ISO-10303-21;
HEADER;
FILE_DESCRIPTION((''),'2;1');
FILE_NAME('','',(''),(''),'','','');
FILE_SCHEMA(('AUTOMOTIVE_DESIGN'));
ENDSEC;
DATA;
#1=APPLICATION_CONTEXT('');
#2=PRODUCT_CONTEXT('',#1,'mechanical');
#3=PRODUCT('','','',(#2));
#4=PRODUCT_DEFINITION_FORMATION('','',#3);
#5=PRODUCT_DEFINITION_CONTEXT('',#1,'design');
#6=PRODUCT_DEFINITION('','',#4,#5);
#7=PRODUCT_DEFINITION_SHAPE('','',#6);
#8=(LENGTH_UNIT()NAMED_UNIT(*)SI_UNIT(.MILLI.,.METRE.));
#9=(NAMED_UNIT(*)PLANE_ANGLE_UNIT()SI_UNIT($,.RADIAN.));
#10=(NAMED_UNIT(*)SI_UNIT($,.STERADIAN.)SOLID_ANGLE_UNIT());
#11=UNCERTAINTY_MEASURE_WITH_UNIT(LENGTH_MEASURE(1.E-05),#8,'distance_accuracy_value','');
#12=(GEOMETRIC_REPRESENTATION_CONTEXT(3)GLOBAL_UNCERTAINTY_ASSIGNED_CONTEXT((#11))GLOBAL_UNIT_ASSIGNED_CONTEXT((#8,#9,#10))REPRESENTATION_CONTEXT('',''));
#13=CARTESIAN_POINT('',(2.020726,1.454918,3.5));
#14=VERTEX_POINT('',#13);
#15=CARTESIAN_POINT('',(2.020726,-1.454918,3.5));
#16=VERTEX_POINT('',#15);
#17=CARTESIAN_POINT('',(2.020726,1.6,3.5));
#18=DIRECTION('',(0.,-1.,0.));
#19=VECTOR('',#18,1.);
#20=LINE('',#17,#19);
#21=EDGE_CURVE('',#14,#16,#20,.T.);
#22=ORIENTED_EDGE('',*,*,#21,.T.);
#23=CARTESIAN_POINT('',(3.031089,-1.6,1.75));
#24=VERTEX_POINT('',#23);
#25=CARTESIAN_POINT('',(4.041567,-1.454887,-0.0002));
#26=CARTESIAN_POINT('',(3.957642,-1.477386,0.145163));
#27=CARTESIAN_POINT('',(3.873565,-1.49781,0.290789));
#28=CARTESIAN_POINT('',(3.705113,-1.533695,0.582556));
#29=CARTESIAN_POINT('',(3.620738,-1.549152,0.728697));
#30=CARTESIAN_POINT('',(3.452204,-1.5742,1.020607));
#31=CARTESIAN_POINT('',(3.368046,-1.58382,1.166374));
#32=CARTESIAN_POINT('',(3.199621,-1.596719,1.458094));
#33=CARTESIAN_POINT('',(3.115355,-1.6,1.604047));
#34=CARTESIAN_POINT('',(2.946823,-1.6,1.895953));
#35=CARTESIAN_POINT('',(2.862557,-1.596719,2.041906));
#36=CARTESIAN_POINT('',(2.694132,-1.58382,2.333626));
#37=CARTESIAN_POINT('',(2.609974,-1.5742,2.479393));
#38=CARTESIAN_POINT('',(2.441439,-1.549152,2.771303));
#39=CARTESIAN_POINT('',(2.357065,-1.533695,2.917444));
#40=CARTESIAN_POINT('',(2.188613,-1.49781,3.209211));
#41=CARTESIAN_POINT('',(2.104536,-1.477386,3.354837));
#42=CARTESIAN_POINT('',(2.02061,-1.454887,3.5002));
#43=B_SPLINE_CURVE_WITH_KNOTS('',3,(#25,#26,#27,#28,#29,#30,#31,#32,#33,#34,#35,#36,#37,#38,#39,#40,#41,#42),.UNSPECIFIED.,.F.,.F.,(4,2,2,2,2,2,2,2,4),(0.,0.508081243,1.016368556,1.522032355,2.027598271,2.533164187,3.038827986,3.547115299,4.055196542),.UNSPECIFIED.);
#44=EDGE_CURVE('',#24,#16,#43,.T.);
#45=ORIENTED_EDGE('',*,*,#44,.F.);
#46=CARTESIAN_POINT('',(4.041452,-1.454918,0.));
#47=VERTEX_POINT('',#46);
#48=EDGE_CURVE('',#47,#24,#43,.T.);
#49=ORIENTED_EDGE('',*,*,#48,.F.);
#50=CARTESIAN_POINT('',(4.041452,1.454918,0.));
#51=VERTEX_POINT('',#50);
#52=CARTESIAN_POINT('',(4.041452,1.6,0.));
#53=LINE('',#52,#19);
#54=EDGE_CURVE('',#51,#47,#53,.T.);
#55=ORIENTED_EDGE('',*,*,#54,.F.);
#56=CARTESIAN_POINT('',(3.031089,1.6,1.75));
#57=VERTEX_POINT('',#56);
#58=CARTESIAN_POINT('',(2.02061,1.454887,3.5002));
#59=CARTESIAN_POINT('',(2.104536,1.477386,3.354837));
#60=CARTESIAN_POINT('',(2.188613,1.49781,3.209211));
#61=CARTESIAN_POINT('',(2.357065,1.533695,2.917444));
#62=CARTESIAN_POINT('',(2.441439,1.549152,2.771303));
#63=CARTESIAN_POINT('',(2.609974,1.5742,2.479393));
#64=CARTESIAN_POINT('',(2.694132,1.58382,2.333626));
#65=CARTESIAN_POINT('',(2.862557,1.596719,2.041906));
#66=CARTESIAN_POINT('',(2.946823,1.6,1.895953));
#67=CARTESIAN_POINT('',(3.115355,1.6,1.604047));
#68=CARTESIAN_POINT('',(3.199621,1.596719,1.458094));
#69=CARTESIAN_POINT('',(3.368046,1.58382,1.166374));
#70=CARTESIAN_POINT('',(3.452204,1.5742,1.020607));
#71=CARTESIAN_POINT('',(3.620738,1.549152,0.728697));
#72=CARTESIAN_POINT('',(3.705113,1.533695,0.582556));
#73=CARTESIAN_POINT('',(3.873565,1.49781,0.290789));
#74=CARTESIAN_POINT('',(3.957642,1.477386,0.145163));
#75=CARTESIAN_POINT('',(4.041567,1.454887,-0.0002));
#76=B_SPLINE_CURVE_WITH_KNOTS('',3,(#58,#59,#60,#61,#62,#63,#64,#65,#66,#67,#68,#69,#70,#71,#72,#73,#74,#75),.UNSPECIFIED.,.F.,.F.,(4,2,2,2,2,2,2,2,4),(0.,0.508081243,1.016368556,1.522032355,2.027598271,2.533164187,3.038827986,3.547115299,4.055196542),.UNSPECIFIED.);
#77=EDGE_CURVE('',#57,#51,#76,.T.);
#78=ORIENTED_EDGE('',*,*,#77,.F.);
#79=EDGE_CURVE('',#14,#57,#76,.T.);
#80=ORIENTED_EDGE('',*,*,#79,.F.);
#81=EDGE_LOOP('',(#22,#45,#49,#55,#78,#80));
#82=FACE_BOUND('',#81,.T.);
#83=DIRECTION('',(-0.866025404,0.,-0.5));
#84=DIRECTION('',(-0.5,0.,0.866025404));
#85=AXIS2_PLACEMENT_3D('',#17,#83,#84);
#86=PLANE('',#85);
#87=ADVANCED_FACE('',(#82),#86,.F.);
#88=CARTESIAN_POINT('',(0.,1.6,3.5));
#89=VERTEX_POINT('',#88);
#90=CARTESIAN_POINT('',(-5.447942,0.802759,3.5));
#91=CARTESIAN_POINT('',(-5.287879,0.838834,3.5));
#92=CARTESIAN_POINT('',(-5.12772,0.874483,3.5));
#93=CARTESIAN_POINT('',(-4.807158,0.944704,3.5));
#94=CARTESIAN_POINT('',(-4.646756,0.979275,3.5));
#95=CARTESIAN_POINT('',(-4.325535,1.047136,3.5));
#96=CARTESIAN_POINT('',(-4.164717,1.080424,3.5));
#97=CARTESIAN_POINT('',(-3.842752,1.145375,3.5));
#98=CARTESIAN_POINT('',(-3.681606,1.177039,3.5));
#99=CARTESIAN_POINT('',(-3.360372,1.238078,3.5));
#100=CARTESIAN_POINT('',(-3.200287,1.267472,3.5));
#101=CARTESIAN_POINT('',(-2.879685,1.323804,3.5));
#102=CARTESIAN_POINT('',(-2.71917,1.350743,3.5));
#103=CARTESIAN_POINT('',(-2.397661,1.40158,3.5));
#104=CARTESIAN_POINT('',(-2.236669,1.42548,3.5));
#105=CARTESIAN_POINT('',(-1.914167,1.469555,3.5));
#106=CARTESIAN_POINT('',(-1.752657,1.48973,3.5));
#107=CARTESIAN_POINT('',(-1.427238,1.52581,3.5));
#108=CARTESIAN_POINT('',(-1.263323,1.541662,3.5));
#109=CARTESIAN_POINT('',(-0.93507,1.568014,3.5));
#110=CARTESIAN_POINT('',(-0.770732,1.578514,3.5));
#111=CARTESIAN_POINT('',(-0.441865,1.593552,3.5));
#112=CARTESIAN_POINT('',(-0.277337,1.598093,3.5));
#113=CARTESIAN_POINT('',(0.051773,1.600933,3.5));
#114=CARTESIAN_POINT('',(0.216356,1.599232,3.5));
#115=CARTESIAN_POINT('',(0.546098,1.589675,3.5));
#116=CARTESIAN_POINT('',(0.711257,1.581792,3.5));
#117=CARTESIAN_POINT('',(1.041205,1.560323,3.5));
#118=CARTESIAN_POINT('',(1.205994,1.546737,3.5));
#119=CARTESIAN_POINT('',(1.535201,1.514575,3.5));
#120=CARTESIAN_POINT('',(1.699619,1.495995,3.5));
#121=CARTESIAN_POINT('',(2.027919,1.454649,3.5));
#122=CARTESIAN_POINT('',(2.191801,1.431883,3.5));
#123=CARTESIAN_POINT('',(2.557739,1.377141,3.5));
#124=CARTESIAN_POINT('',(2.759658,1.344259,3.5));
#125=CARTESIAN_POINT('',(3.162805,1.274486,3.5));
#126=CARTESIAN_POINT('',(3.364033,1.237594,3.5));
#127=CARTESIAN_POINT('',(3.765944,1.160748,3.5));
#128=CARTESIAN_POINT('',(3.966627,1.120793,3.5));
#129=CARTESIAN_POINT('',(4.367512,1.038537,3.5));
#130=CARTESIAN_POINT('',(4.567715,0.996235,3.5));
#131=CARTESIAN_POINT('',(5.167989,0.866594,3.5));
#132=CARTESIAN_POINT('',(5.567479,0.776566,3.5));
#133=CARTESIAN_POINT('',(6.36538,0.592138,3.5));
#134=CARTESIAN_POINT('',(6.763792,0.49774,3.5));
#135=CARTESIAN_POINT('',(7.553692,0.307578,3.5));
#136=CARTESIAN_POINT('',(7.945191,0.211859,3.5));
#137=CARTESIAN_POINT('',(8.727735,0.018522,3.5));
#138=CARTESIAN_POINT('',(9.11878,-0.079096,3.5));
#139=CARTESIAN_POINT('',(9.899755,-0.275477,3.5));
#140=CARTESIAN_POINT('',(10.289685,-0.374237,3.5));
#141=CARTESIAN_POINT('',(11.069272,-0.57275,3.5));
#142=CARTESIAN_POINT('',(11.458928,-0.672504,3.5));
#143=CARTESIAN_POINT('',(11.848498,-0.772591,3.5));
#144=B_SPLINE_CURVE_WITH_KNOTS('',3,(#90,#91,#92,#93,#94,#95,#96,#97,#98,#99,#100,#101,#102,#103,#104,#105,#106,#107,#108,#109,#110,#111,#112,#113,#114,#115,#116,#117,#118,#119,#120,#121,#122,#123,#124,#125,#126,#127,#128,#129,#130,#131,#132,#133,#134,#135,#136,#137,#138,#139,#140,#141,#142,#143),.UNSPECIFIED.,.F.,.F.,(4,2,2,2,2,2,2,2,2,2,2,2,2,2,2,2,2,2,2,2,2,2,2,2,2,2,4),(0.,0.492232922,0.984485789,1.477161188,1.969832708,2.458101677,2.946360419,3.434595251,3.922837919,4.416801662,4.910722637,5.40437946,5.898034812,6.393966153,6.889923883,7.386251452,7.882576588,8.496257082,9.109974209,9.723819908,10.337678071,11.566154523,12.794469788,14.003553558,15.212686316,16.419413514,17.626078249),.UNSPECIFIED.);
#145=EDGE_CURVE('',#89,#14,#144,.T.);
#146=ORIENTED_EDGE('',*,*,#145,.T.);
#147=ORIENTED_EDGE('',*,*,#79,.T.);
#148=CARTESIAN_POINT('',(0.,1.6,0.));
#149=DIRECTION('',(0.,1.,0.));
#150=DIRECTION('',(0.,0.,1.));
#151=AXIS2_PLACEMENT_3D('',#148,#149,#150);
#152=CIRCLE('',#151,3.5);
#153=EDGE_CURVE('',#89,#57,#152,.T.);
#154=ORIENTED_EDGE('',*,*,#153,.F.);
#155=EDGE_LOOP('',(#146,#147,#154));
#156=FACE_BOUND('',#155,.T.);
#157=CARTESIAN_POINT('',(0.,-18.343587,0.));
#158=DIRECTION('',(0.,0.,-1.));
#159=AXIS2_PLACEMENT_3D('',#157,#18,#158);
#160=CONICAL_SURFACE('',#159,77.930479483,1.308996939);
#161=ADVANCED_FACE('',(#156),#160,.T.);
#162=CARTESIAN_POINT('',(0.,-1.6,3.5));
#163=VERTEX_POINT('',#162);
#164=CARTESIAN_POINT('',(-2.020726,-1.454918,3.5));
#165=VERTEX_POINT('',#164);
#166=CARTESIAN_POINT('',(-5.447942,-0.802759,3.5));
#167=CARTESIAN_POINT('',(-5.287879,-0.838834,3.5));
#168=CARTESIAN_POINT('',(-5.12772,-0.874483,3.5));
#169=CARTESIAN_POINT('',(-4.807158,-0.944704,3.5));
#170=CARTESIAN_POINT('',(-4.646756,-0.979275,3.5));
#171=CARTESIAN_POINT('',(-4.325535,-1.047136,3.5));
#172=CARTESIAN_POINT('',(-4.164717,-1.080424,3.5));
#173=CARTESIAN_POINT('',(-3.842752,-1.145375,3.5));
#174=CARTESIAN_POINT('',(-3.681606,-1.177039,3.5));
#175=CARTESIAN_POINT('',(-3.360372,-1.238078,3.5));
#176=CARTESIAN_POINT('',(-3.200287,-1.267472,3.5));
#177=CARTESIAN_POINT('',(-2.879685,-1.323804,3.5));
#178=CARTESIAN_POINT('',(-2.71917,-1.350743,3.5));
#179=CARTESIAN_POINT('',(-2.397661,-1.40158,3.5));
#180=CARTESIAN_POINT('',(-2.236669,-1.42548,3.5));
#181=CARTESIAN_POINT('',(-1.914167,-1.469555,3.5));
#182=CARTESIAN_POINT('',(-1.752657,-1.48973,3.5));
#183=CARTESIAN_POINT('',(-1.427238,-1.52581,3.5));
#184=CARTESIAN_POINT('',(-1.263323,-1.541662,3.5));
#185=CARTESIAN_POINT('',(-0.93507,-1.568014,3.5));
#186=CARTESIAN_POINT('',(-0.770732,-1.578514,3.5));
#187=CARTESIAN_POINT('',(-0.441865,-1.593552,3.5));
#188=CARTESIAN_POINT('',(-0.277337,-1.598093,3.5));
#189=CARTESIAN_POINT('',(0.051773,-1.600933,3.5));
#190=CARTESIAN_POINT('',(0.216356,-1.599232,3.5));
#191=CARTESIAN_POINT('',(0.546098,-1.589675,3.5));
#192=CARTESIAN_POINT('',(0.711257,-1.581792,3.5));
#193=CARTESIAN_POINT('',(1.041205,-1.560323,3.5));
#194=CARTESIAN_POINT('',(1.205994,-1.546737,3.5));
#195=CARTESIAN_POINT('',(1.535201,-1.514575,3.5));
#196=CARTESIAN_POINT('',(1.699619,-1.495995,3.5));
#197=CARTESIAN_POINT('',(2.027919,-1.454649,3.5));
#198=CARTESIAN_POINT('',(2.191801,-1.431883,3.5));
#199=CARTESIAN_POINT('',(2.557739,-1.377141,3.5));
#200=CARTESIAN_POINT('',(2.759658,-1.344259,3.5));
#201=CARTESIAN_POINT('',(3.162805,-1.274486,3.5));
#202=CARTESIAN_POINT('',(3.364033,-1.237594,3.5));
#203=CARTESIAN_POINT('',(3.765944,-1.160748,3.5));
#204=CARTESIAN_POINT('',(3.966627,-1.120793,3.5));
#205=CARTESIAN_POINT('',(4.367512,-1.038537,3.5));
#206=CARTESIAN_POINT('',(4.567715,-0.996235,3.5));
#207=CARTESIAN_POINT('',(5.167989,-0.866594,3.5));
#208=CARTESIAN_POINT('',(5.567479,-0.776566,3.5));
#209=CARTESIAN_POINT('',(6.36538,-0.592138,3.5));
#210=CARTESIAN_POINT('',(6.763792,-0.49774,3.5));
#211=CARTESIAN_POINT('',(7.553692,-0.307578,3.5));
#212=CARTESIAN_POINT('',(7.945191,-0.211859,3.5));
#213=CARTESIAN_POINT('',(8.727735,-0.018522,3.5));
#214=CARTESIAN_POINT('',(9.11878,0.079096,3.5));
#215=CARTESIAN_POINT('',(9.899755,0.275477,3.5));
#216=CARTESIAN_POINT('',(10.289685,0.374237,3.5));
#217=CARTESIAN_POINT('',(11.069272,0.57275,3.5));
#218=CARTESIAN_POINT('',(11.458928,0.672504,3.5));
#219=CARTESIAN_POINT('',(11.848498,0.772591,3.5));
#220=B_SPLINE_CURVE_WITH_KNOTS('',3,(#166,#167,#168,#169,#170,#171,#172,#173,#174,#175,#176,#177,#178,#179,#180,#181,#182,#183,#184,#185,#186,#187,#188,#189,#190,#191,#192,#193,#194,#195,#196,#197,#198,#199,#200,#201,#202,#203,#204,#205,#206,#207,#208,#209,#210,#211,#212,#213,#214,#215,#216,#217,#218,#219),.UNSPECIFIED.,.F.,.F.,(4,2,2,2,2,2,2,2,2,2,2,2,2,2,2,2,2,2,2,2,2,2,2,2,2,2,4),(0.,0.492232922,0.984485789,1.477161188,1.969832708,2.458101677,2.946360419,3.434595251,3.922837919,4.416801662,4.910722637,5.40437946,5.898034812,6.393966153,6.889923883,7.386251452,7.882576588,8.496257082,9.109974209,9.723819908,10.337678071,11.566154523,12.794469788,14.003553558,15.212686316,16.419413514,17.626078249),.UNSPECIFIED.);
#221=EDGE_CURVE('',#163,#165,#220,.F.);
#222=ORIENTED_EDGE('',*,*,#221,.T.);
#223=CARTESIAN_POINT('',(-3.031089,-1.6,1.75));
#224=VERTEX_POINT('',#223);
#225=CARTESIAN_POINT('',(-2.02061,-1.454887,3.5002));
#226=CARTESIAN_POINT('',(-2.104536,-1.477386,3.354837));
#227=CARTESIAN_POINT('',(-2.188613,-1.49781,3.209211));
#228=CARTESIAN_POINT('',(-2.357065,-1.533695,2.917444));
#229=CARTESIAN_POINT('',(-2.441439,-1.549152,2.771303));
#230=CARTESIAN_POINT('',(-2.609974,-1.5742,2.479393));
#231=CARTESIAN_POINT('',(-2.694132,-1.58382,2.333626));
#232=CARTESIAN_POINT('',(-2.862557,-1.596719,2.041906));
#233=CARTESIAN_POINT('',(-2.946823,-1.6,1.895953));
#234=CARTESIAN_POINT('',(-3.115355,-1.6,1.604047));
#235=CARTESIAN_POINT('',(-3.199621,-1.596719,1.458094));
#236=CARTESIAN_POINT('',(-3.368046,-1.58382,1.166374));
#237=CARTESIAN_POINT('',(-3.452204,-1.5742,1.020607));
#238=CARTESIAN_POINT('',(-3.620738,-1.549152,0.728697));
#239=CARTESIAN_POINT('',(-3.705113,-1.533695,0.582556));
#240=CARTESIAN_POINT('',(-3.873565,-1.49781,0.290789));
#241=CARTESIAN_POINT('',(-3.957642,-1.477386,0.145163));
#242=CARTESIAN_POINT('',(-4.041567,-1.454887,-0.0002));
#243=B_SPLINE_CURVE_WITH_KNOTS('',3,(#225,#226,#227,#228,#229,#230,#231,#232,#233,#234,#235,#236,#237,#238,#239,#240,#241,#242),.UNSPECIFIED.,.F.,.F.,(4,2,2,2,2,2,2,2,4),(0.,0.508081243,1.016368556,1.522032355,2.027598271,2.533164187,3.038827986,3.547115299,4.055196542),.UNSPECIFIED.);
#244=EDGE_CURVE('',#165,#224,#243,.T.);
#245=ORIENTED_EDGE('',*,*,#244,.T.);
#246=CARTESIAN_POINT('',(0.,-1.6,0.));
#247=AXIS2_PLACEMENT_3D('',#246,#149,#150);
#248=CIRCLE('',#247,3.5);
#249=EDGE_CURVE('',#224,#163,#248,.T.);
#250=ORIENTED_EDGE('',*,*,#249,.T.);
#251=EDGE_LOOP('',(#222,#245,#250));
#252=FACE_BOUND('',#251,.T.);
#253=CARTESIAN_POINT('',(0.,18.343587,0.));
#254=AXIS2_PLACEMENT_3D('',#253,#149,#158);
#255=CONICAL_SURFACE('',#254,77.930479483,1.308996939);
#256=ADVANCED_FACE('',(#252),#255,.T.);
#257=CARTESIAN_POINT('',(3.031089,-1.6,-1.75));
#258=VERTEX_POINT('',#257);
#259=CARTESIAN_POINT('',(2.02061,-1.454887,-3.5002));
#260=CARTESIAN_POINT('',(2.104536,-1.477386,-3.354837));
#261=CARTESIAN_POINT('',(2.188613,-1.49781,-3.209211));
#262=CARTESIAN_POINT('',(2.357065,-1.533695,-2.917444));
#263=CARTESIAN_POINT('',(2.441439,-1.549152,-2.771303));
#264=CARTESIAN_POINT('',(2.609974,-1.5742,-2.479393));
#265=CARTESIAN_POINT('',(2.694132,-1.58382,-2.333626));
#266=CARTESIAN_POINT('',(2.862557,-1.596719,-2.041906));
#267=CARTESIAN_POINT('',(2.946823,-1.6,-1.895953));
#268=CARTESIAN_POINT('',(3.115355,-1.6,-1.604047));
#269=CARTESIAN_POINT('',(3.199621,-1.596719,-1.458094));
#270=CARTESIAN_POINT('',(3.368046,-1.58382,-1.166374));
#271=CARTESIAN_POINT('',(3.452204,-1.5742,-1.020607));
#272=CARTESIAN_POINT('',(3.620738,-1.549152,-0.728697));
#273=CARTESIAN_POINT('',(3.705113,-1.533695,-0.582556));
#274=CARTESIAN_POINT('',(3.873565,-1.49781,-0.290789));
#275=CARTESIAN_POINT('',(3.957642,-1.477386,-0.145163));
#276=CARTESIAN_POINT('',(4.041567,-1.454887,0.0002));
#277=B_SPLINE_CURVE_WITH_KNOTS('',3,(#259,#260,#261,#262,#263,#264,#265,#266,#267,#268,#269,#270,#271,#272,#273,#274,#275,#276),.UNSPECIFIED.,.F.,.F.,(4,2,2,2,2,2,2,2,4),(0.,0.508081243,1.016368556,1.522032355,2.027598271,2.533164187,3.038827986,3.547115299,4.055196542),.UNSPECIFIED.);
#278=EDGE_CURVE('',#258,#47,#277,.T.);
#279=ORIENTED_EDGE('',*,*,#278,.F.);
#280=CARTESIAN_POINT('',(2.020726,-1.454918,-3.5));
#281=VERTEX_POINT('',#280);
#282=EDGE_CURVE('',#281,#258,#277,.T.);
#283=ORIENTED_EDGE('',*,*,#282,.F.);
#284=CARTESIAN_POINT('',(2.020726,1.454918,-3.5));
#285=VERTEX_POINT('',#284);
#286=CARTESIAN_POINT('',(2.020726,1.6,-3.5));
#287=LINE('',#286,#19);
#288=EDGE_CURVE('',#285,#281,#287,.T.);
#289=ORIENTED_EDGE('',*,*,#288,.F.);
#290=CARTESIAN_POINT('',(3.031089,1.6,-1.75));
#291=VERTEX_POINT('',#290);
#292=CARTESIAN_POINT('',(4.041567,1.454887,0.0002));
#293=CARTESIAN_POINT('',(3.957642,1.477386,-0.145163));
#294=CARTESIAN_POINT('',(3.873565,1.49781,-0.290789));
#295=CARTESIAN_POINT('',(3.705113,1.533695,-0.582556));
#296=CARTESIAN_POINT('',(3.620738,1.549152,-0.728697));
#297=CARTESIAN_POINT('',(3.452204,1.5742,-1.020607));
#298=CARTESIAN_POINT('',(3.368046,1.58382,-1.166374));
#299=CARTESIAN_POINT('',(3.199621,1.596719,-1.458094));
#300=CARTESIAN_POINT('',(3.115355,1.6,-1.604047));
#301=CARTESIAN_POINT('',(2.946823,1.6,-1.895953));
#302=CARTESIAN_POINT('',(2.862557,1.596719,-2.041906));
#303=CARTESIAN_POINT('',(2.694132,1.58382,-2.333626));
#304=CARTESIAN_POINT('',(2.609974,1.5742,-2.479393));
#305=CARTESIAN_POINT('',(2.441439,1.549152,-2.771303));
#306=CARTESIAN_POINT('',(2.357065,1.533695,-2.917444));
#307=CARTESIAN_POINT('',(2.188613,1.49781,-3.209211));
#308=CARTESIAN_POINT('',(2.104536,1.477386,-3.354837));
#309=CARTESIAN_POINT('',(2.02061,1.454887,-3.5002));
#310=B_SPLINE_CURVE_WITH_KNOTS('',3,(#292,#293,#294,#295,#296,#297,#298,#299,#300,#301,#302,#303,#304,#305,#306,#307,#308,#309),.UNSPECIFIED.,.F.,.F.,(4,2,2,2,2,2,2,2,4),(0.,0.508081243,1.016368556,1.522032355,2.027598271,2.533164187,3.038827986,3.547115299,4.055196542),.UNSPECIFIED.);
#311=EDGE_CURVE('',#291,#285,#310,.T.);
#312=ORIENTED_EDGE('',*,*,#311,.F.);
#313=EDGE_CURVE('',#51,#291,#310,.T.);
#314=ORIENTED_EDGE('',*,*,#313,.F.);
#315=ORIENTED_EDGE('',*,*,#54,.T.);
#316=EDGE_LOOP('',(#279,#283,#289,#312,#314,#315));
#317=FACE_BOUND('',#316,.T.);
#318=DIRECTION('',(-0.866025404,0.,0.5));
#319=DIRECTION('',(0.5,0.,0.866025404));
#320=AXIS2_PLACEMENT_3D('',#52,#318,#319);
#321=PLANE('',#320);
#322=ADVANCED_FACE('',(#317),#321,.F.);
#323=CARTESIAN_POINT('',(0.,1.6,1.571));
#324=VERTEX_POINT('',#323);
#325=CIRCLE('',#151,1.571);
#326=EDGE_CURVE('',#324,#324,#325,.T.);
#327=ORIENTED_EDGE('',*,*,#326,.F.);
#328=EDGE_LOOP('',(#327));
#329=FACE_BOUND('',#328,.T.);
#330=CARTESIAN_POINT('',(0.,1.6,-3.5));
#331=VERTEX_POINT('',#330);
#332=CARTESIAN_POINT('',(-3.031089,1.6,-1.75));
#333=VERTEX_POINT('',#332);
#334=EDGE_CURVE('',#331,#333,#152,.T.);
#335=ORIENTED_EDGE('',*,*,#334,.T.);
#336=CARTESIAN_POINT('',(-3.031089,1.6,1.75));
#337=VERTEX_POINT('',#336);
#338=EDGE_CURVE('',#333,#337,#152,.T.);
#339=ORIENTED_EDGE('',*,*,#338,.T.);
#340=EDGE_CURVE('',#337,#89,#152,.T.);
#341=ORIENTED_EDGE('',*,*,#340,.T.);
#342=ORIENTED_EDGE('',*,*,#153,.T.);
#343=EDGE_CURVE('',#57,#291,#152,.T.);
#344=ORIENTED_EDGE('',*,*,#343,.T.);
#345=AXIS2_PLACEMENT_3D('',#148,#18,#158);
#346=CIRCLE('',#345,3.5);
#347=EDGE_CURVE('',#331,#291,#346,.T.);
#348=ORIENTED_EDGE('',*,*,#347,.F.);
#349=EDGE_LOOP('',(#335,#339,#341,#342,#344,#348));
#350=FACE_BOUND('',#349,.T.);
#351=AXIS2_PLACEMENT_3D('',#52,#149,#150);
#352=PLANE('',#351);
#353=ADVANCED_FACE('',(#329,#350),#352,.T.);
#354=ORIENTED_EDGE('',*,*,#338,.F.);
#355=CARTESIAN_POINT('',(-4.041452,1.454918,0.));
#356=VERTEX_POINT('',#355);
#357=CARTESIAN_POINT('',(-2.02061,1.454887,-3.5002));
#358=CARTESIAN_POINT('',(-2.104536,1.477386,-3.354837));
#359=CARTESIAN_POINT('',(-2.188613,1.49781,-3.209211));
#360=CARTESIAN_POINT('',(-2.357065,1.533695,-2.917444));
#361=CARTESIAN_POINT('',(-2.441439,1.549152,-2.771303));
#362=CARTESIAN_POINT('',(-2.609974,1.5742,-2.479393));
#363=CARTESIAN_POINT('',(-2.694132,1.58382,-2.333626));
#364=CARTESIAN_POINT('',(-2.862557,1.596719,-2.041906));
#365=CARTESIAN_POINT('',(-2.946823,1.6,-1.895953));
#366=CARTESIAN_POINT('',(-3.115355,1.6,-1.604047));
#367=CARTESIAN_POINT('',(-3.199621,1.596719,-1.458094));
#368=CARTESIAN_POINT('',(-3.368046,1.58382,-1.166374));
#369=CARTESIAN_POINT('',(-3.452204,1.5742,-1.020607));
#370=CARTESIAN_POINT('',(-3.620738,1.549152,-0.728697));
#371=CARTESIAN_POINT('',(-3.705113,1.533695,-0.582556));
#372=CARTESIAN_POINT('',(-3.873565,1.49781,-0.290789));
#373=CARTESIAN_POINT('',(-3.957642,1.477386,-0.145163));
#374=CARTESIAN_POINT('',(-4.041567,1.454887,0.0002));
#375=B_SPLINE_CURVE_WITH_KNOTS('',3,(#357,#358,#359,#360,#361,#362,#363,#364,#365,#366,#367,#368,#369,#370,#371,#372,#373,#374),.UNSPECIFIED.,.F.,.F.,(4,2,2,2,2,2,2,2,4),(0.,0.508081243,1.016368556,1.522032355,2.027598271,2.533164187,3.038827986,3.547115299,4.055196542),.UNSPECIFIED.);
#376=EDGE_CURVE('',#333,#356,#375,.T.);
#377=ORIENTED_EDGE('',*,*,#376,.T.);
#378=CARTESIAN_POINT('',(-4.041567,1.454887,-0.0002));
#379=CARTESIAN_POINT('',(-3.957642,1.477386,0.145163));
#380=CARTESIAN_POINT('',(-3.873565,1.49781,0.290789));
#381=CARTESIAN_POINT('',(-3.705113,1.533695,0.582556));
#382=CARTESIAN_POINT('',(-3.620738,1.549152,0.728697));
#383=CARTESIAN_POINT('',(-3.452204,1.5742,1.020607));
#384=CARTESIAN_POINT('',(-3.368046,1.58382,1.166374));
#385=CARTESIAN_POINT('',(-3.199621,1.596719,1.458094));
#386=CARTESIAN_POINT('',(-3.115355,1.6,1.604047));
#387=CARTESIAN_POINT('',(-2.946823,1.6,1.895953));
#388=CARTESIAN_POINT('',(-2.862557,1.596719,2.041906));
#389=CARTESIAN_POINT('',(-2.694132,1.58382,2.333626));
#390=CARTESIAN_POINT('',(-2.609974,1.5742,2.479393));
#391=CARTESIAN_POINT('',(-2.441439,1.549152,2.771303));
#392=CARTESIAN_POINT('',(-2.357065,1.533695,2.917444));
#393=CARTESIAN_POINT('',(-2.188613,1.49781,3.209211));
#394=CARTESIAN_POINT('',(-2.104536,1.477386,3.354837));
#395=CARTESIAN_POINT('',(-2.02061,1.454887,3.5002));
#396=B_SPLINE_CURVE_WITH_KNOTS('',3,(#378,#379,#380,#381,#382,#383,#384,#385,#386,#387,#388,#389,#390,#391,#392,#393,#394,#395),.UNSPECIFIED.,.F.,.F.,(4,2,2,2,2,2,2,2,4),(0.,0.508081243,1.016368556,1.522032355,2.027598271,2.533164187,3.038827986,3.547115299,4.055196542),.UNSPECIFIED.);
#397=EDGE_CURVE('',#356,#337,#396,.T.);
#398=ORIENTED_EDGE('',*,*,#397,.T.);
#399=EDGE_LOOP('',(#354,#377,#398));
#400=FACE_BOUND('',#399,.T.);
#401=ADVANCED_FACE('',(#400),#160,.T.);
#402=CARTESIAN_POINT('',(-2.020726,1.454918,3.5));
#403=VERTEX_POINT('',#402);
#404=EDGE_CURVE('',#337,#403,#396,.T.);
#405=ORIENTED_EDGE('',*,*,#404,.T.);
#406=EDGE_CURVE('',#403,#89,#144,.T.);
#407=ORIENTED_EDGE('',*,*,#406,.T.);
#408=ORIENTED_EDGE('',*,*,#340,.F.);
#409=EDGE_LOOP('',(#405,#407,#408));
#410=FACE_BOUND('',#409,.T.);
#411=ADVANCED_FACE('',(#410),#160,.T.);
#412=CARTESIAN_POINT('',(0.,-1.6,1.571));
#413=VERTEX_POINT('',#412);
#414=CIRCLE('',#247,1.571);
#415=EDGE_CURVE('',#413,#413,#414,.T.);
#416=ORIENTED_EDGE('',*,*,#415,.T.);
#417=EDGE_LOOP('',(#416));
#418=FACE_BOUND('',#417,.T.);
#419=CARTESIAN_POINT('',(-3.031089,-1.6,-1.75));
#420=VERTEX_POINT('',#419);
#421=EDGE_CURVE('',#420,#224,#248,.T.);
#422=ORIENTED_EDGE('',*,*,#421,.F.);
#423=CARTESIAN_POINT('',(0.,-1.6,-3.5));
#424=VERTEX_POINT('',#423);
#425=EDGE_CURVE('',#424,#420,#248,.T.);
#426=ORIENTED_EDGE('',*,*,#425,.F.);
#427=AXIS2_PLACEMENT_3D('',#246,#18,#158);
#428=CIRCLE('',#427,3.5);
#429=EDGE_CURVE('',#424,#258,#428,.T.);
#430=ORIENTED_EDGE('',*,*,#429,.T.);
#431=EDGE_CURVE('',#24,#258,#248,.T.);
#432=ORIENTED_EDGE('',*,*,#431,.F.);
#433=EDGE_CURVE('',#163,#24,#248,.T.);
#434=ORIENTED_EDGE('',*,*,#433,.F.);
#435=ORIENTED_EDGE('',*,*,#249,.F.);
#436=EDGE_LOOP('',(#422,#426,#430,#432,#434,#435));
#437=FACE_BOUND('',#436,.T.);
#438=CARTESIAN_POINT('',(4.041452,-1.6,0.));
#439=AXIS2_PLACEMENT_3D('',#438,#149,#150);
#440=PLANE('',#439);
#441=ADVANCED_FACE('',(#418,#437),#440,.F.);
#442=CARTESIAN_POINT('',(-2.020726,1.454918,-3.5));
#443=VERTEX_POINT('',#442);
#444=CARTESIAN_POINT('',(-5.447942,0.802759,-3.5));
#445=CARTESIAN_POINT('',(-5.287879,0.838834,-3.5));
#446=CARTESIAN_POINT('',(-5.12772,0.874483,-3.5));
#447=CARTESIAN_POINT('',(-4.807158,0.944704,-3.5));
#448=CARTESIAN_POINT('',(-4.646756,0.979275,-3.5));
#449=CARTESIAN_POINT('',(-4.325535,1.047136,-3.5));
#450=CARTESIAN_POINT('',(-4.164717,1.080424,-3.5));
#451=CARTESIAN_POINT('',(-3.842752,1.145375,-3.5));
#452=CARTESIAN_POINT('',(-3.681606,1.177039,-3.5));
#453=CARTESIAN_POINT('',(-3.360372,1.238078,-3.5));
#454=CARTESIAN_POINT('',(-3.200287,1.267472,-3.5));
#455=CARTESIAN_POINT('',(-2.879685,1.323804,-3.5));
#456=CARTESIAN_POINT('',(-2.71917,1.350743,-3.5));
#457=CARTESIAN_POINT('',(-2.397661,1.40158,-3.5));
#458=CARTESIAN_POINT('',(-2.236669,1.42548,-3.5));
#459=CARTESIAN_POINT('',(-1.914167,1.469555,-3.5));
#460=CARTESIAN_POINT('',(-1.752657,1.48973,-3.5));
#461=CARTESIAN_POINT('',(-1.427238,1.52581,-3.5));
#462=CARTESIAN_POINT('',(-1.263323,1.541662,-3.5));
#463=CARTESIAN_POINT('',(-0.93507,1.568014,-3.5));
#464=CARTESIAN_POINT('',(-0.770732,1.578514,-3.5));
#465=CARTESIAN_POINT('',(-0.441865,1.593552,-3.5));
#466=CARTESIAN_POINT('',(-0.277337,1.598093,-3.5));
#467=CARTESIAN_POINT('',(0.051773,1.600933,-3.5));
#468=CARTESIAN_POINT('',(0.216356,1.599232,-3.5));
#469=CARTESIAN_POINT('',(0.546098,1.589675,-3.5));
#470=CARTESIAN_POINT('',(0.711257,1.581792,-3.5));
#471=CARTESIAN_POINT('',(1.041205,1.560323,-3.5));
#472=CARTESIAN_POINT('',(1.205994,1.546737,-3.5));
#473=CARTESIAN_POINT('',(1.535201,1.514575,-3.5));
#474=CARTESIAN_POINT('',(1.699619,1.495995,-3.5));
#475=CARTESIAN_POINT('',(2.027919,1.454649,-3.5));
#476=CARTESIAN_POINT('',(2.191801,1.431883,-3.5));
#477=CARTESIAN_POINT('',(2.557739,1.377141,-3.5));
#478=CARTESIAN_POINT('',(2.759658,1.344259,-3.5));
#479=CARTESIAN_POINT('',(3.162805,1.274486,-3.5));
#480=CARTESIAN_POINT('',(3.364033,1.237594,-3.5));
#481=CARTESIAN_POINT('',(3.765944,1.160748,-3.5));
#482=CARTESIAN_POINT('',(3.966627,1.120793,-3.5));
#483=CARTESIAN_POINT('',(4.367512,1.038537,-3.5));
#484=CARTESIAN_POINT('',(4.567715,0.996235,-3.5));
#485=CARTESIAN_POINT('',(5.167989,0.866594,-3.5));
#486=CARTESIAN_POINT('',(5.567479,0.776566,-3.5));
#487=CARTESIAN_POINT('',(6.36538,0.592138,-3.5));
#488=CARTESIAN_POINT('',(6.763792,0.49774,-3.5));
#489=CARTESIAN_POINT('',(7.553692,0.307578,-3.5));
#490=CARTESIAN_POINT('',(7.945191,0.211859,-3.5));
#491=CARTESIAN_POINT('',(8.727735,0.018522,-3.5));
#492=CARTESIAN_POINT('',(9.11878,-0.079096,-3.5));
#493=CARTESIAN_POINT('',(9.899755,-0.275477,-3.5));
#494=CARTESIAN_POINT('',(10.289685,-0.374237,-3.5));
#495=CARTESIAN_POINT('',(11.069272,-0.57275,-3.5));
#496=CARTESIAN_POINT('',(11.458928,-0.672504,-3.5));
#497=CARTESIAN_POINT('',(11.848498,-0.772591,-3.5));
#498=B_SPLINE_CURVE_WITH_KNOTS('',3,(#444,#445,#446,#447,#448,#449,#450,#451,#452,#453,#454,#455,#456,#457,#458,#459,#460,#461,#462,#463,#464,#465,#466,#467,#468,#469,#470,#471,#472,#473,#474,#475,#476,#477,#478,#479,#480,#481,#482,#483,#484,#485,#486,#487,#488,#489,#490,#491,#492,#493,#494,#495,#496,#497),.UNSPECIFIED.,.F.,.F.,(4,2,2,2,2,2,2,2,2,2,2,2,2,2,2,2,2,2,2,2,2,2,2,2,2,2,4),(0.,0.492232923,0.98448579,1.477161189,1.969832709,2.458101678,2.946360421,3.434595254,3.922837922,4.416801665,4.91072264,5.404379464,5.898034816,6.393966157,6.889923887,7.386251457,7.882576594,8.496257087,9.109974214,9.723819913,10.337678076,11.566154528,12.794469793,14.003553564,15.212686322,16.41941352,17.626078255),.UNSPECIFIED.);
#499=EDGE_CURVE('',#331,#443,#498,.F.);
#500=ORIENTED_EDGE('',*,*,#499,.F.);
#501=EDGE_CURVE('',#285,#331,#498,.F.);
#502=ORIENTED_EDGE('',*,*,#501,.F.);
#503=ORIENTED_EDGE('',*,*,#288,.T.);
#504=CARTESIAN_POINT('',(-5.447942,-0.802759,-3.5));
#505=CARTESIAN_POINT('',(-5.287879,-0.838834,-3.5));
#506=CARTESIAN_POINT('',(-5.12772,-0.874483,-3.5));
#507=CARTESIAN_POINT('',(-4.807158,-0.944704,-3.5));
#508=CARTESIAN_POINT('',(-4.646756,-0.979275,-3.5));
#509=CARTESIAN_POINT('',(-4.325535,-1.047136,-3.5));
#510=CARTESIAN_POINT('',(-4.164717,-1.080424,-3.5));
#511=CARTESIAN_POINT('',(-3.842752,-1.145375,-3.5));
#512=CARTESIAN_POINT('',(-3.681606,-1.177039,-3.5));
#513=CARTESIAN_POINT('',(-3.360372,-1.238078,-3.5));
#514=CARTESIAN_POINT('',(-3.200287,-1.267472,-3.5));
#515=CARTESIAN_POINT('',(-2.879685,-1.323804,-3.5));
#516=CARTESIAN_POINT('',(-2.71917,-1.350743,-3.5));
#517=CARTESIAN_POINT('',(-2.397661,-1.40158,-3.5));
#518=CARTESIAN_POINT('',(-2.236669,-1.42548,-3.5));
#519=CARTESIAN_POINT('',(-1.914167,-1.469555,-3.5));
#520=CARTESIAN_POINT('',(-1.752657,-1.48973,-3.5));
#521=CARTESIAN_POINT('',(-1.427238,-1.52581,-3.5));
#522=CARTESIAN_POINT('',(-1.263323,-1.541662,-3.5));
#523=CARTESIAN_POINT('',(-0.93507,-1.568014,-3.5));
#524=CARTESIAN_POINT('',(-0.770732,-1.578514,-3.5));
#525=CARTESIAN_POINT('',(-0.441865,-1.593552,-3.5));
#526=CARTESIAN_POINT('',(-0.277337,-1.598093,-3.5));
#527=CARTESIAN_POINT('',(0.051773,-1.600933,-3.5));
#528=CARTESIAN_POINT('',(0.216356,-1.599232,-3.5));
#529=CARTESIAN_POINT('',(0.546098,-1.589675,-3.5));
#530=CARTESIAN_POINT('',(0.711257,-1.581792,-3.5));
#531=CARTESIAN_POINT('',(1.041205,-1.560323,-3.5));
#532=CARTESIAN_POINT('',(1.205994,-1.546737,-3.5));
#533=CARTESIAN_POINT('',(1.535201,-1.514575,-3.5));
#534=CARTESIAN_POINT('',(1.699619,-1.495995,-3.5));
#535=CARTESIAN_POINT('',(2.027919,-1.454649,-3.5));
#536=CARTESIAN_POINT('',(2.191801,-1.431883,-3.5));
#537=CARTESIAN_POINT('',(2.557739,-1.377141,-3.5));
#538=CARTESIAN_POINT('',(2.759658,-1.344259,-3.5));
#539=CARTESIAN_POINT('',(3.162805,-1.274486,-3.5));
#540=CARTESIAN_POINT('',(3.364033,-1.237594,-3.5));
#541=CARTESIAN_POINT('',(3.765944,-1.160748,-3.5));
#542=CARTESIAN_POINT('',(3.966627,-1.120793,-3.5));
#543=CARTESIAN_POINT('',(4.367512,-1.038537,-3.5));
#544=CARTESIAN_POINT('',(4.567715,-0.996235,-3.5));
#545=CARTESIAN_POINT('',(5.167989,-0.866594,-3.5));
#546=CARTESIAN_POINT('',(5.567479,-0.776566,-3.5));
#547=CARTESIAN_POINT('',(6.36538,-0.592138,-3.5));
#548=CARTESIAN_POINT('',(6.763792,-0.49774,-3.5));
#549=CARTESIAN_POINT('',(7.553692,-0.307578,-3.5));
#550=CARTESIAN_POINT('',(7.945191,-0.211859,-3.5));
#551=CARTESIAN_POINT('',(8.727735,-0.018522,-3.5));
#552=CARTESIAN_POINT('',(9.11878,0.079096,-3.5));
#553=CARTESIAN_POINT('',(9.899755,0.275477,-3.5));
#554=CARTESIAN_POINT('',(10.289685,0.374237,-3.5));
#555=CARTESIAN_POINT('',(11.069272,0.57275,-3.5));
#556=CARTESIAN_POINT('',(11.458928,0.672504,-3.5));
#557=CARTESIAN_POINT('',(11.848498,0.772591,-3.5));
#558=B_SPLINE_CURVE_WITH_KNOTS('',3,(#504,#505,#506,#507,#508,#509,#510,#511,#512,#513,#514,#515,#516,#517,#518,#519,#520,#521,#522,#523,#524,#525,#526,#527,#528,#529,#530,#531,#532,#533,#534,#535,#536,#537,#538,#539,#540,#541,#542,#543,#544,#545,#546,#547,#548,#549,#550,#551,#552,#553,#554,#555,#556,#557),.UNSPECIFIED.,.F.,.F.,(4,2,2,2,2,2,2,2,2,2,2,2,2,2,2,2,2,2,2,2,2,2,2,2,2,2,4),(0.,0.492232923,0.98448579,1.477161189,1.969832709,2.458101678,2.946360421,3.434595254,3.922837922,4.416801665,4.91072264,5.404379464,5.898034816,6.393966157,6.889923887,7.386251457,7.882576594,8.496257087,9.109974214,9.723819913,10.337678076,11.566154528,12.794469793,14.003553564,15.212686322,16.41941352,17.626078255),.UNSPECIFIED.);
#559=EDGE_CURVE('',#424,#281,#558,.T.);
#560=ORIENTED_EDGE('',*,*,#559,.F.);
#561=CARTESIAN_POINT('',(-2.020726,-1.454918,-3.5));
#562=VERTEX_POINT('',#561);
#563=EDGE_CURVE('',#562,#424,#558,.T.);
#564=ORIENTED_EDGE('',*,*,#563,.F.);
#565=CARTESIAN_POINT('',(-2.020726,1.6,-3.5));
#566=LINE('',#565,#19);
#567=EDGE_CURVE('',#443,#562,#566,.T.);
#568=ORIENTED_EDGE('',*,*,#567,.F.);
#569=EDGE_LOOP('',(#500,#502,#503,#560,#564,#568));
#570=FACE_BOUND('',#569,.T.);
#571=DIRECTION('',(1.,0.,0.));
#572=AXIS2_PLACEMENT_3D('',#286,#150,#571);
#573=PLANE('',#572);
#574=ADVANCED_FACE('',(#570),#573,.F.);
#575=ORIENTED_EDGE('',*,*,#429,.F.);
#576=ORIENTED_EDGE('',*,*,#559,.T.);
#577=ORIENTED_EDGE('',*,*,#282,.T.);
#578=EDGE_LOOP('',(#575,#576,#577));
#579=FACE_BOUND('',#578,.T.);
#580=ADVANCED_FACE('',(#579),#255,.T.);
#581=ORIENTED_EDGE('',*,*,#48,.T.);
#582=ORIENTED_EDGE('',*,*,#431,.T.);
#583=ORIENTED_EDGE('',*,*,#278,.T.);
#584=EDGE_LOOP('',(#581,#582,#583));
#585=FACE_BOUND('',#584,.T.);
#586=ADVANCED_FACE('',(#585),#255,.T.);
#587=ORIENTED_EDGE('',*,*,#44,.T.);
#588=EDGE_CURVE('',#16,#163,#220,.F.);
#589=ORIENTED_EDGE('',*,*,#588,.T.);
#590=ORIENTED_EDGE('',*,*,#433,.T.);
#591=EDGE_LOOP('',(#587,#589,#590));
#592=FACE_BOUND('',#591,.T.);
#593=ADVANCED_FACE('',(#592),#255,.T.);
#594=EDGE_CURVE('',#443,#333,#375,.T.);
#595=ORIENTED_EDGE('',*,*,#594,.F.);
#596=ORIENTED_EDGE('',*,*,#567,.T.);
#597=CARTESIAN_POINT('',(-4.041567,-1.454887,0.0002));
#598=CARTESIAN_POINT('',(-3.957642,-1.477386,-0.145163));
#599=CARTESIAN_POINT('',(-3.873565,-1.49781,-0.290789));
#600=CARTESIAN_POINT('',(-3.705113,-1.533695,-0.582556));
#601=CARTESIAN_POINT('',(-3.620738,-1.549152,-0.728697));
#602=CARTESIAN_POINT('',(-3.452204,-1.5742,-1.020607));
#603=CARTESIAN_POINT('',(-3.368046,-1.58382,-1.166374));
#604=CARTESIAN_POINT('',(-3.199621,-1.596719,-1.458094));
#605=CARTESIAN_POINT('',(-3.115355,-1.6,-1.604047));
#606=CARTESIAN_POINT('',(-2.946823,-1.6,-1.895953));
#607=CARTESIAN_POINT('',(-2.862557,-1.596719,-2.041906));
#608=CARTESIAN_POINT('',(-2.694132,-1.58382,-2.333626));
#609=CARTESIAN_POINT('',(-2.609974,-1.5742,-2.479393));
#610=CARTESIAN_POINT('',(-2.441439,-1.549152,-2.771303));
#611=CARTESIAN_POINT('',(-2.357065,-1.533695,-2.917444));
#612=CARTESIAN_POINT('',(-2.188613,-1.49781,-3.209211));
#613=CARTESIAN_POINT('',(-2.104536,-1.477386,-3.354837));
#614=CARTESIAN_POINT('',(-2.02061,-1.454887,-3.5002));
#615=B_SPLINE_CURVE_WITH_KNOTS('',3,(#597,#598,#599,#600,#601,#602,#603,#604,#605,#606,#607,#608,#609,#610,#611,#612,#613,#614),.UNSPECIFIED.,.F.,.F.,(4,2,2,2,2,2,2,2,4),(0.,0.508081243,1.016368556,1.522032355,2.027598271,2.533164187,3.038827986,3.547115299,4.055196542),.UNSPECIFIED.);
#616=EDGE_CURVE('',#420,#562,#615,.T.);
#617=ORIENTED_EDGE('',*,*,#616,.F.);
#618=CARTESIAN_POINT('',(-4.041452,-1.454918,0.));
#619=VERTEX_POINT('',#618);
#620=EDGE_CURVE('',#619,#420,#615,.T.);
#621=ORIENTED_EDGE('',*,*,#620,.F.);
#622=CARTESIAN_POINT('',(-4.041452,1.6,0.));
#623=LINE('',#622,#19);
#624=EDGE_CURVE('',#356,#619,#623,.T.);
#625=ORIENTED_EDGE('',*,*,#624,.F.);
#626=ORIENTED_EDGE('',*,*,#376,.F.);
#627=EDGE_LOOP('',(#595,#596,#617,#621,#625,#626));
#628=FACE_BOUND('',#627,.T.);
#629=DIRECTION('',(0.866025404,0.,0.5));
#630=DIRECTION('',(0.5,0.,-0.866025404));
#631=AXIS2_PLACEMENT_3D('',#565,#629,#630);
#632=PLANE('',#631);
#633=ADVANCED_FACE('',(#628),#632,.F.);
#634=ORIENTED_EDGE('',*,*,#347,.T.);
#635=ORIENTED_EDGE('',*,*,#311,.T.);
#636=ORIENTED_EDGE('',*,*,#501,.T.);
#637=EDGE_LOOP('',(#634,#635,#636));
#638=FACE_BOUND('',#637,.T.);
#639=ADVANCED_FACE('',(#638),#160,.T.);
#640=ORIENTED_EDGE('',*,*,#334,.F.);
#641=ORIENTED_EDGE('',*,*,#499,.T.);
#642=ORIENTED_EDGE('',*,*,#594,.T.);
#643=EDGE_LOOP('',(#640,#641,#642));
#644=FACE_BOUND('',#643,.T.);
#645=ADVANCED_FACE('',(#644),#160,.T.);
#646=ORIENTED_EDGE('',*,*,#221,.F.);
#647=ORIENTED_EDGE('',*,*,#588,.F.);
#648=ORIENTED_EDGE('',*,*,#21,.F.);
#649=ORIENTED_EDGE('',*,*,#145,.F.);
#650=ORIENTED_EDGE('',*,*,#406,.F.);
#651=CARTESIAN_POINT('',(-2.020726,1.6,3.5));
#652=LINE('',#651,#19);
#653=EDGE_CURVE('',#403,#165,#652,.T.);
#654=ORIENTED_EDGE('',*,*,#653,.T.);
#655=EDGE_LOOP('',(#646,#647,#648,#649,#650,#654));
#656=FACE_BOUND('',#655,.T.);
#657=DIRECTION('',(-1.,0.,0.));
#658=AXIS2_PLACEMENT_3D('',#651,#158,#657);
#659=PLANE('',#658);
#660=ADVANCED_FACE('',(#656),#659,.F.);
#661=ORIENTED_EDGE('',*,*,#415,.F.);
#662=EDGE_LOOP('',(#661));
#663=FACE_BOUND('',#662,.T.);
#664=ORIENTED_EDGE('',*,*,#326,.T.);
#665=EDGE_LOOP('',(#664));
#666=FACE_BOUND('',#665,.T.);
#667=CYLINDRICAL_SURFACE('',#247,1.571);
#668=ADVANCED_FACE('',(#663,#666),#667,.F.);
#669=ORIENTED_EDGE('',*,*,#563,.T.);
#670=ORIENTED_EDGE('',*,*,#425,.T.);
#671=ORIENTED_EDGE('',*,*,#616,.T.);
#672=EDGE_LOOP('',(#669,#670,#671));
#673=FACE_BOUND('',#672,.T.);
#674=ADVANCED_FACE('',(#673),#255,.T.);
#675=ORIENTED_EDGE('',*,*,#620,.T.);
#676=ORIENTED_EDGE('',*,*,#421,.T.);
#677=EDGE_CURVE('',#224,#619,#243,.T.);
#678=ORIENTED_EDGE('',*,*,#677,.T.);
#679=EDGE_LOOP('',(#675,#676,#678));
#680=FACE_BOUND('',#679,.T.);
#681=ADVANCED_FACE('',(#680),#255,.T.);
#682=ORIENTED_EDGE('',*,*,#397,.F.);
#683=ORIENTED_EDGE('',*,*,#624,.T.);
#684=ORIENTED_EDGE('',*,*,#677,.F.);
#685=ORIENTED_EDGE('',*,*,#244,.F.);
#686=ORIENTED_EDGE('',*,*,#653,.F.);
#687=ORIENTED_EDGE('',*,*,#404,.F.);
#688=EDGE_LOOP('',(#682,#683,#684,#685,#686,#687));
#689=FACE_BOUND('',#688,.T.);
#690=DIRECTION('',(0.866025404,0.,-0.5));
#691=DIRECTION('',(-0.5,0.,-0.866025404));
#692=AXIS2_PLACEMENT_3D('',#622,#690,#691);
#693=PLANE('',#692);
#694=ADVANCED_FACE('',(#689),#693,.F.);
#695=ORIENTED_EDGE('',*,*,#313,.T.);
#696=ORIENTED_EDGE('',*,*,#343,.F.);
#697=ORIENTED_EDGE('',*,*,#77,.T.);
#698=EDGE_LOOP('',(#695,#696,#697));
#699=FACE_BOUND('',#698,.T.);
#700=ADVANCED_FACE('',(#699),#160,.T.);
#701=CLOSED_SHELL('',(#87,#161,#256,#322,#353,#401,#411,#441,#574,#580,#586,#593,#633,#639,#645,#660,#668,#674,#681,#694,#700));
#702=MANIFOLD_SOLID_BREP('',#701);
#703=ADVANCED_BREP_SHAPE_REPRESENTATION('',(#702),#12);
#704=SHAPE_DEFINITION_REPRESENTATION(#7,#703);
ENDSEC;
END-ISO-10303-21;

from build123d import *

# Parameters (mm, degrees)
EXTRUDE1_DEPTH = 1.6
SKETCH3_R      = 1.571
EXTRUDE2_DEPTH = 7.23083729


with BuildPart() as part:
    # Sketch1 → Extrude1 (new, symmetric)
    with BuildSketch(Plane(origin=(0, 0, 0), x_dir=(1, 0, 0), z_dir=(0, 1, 0))):
        Polygon((4.041451884, 0), (2.020725942, 3.5), (-2.020725942, 3.5), (-4.041451884, 0), (-2.020725942, -3.5), (2.020725942, -3.5), align=None)
    extrude(amount=EXTRUDE1_DEPTH, both=True)

    # Sketch2 → Cut-Revolve1 (revolve, cut)
    with BuildSketch(Plane(origin=(0, 0, 0), x_dir=(0, 0, -1), z_dir=(1, 0, 0))):
        Polygon((-3.5, 1.6), (-77.930479483, -18.34358687), (-77.930479483, 1.6), align=None)
    cut_revolve1 = revolve(axis=Axis((0, 0, 0), (0, 1, 0)), mode=Mode.SUBTRACT)

    # Mirror1: Cut-Revolve1 across plane
    add(cut_revolve1.mirror(Plane.ZX), mode=Mode.SUBTRACT)

    # Sketch3 → Extrude2 (cut, through all)
    with BuildSketch(Plane(origin=(0, 1.6, 0), x_dir=(1, 0, 0), z_dir=(0, 1, 0))):
        with Locations(Location((0, 0, 0), (0, 0, 270))):
            Circle(SKETCH3_R)
    extrude(amount=-EXTRUDE2_DEPTH, mode=Mode.SUBTRACT)


solid = part.part
